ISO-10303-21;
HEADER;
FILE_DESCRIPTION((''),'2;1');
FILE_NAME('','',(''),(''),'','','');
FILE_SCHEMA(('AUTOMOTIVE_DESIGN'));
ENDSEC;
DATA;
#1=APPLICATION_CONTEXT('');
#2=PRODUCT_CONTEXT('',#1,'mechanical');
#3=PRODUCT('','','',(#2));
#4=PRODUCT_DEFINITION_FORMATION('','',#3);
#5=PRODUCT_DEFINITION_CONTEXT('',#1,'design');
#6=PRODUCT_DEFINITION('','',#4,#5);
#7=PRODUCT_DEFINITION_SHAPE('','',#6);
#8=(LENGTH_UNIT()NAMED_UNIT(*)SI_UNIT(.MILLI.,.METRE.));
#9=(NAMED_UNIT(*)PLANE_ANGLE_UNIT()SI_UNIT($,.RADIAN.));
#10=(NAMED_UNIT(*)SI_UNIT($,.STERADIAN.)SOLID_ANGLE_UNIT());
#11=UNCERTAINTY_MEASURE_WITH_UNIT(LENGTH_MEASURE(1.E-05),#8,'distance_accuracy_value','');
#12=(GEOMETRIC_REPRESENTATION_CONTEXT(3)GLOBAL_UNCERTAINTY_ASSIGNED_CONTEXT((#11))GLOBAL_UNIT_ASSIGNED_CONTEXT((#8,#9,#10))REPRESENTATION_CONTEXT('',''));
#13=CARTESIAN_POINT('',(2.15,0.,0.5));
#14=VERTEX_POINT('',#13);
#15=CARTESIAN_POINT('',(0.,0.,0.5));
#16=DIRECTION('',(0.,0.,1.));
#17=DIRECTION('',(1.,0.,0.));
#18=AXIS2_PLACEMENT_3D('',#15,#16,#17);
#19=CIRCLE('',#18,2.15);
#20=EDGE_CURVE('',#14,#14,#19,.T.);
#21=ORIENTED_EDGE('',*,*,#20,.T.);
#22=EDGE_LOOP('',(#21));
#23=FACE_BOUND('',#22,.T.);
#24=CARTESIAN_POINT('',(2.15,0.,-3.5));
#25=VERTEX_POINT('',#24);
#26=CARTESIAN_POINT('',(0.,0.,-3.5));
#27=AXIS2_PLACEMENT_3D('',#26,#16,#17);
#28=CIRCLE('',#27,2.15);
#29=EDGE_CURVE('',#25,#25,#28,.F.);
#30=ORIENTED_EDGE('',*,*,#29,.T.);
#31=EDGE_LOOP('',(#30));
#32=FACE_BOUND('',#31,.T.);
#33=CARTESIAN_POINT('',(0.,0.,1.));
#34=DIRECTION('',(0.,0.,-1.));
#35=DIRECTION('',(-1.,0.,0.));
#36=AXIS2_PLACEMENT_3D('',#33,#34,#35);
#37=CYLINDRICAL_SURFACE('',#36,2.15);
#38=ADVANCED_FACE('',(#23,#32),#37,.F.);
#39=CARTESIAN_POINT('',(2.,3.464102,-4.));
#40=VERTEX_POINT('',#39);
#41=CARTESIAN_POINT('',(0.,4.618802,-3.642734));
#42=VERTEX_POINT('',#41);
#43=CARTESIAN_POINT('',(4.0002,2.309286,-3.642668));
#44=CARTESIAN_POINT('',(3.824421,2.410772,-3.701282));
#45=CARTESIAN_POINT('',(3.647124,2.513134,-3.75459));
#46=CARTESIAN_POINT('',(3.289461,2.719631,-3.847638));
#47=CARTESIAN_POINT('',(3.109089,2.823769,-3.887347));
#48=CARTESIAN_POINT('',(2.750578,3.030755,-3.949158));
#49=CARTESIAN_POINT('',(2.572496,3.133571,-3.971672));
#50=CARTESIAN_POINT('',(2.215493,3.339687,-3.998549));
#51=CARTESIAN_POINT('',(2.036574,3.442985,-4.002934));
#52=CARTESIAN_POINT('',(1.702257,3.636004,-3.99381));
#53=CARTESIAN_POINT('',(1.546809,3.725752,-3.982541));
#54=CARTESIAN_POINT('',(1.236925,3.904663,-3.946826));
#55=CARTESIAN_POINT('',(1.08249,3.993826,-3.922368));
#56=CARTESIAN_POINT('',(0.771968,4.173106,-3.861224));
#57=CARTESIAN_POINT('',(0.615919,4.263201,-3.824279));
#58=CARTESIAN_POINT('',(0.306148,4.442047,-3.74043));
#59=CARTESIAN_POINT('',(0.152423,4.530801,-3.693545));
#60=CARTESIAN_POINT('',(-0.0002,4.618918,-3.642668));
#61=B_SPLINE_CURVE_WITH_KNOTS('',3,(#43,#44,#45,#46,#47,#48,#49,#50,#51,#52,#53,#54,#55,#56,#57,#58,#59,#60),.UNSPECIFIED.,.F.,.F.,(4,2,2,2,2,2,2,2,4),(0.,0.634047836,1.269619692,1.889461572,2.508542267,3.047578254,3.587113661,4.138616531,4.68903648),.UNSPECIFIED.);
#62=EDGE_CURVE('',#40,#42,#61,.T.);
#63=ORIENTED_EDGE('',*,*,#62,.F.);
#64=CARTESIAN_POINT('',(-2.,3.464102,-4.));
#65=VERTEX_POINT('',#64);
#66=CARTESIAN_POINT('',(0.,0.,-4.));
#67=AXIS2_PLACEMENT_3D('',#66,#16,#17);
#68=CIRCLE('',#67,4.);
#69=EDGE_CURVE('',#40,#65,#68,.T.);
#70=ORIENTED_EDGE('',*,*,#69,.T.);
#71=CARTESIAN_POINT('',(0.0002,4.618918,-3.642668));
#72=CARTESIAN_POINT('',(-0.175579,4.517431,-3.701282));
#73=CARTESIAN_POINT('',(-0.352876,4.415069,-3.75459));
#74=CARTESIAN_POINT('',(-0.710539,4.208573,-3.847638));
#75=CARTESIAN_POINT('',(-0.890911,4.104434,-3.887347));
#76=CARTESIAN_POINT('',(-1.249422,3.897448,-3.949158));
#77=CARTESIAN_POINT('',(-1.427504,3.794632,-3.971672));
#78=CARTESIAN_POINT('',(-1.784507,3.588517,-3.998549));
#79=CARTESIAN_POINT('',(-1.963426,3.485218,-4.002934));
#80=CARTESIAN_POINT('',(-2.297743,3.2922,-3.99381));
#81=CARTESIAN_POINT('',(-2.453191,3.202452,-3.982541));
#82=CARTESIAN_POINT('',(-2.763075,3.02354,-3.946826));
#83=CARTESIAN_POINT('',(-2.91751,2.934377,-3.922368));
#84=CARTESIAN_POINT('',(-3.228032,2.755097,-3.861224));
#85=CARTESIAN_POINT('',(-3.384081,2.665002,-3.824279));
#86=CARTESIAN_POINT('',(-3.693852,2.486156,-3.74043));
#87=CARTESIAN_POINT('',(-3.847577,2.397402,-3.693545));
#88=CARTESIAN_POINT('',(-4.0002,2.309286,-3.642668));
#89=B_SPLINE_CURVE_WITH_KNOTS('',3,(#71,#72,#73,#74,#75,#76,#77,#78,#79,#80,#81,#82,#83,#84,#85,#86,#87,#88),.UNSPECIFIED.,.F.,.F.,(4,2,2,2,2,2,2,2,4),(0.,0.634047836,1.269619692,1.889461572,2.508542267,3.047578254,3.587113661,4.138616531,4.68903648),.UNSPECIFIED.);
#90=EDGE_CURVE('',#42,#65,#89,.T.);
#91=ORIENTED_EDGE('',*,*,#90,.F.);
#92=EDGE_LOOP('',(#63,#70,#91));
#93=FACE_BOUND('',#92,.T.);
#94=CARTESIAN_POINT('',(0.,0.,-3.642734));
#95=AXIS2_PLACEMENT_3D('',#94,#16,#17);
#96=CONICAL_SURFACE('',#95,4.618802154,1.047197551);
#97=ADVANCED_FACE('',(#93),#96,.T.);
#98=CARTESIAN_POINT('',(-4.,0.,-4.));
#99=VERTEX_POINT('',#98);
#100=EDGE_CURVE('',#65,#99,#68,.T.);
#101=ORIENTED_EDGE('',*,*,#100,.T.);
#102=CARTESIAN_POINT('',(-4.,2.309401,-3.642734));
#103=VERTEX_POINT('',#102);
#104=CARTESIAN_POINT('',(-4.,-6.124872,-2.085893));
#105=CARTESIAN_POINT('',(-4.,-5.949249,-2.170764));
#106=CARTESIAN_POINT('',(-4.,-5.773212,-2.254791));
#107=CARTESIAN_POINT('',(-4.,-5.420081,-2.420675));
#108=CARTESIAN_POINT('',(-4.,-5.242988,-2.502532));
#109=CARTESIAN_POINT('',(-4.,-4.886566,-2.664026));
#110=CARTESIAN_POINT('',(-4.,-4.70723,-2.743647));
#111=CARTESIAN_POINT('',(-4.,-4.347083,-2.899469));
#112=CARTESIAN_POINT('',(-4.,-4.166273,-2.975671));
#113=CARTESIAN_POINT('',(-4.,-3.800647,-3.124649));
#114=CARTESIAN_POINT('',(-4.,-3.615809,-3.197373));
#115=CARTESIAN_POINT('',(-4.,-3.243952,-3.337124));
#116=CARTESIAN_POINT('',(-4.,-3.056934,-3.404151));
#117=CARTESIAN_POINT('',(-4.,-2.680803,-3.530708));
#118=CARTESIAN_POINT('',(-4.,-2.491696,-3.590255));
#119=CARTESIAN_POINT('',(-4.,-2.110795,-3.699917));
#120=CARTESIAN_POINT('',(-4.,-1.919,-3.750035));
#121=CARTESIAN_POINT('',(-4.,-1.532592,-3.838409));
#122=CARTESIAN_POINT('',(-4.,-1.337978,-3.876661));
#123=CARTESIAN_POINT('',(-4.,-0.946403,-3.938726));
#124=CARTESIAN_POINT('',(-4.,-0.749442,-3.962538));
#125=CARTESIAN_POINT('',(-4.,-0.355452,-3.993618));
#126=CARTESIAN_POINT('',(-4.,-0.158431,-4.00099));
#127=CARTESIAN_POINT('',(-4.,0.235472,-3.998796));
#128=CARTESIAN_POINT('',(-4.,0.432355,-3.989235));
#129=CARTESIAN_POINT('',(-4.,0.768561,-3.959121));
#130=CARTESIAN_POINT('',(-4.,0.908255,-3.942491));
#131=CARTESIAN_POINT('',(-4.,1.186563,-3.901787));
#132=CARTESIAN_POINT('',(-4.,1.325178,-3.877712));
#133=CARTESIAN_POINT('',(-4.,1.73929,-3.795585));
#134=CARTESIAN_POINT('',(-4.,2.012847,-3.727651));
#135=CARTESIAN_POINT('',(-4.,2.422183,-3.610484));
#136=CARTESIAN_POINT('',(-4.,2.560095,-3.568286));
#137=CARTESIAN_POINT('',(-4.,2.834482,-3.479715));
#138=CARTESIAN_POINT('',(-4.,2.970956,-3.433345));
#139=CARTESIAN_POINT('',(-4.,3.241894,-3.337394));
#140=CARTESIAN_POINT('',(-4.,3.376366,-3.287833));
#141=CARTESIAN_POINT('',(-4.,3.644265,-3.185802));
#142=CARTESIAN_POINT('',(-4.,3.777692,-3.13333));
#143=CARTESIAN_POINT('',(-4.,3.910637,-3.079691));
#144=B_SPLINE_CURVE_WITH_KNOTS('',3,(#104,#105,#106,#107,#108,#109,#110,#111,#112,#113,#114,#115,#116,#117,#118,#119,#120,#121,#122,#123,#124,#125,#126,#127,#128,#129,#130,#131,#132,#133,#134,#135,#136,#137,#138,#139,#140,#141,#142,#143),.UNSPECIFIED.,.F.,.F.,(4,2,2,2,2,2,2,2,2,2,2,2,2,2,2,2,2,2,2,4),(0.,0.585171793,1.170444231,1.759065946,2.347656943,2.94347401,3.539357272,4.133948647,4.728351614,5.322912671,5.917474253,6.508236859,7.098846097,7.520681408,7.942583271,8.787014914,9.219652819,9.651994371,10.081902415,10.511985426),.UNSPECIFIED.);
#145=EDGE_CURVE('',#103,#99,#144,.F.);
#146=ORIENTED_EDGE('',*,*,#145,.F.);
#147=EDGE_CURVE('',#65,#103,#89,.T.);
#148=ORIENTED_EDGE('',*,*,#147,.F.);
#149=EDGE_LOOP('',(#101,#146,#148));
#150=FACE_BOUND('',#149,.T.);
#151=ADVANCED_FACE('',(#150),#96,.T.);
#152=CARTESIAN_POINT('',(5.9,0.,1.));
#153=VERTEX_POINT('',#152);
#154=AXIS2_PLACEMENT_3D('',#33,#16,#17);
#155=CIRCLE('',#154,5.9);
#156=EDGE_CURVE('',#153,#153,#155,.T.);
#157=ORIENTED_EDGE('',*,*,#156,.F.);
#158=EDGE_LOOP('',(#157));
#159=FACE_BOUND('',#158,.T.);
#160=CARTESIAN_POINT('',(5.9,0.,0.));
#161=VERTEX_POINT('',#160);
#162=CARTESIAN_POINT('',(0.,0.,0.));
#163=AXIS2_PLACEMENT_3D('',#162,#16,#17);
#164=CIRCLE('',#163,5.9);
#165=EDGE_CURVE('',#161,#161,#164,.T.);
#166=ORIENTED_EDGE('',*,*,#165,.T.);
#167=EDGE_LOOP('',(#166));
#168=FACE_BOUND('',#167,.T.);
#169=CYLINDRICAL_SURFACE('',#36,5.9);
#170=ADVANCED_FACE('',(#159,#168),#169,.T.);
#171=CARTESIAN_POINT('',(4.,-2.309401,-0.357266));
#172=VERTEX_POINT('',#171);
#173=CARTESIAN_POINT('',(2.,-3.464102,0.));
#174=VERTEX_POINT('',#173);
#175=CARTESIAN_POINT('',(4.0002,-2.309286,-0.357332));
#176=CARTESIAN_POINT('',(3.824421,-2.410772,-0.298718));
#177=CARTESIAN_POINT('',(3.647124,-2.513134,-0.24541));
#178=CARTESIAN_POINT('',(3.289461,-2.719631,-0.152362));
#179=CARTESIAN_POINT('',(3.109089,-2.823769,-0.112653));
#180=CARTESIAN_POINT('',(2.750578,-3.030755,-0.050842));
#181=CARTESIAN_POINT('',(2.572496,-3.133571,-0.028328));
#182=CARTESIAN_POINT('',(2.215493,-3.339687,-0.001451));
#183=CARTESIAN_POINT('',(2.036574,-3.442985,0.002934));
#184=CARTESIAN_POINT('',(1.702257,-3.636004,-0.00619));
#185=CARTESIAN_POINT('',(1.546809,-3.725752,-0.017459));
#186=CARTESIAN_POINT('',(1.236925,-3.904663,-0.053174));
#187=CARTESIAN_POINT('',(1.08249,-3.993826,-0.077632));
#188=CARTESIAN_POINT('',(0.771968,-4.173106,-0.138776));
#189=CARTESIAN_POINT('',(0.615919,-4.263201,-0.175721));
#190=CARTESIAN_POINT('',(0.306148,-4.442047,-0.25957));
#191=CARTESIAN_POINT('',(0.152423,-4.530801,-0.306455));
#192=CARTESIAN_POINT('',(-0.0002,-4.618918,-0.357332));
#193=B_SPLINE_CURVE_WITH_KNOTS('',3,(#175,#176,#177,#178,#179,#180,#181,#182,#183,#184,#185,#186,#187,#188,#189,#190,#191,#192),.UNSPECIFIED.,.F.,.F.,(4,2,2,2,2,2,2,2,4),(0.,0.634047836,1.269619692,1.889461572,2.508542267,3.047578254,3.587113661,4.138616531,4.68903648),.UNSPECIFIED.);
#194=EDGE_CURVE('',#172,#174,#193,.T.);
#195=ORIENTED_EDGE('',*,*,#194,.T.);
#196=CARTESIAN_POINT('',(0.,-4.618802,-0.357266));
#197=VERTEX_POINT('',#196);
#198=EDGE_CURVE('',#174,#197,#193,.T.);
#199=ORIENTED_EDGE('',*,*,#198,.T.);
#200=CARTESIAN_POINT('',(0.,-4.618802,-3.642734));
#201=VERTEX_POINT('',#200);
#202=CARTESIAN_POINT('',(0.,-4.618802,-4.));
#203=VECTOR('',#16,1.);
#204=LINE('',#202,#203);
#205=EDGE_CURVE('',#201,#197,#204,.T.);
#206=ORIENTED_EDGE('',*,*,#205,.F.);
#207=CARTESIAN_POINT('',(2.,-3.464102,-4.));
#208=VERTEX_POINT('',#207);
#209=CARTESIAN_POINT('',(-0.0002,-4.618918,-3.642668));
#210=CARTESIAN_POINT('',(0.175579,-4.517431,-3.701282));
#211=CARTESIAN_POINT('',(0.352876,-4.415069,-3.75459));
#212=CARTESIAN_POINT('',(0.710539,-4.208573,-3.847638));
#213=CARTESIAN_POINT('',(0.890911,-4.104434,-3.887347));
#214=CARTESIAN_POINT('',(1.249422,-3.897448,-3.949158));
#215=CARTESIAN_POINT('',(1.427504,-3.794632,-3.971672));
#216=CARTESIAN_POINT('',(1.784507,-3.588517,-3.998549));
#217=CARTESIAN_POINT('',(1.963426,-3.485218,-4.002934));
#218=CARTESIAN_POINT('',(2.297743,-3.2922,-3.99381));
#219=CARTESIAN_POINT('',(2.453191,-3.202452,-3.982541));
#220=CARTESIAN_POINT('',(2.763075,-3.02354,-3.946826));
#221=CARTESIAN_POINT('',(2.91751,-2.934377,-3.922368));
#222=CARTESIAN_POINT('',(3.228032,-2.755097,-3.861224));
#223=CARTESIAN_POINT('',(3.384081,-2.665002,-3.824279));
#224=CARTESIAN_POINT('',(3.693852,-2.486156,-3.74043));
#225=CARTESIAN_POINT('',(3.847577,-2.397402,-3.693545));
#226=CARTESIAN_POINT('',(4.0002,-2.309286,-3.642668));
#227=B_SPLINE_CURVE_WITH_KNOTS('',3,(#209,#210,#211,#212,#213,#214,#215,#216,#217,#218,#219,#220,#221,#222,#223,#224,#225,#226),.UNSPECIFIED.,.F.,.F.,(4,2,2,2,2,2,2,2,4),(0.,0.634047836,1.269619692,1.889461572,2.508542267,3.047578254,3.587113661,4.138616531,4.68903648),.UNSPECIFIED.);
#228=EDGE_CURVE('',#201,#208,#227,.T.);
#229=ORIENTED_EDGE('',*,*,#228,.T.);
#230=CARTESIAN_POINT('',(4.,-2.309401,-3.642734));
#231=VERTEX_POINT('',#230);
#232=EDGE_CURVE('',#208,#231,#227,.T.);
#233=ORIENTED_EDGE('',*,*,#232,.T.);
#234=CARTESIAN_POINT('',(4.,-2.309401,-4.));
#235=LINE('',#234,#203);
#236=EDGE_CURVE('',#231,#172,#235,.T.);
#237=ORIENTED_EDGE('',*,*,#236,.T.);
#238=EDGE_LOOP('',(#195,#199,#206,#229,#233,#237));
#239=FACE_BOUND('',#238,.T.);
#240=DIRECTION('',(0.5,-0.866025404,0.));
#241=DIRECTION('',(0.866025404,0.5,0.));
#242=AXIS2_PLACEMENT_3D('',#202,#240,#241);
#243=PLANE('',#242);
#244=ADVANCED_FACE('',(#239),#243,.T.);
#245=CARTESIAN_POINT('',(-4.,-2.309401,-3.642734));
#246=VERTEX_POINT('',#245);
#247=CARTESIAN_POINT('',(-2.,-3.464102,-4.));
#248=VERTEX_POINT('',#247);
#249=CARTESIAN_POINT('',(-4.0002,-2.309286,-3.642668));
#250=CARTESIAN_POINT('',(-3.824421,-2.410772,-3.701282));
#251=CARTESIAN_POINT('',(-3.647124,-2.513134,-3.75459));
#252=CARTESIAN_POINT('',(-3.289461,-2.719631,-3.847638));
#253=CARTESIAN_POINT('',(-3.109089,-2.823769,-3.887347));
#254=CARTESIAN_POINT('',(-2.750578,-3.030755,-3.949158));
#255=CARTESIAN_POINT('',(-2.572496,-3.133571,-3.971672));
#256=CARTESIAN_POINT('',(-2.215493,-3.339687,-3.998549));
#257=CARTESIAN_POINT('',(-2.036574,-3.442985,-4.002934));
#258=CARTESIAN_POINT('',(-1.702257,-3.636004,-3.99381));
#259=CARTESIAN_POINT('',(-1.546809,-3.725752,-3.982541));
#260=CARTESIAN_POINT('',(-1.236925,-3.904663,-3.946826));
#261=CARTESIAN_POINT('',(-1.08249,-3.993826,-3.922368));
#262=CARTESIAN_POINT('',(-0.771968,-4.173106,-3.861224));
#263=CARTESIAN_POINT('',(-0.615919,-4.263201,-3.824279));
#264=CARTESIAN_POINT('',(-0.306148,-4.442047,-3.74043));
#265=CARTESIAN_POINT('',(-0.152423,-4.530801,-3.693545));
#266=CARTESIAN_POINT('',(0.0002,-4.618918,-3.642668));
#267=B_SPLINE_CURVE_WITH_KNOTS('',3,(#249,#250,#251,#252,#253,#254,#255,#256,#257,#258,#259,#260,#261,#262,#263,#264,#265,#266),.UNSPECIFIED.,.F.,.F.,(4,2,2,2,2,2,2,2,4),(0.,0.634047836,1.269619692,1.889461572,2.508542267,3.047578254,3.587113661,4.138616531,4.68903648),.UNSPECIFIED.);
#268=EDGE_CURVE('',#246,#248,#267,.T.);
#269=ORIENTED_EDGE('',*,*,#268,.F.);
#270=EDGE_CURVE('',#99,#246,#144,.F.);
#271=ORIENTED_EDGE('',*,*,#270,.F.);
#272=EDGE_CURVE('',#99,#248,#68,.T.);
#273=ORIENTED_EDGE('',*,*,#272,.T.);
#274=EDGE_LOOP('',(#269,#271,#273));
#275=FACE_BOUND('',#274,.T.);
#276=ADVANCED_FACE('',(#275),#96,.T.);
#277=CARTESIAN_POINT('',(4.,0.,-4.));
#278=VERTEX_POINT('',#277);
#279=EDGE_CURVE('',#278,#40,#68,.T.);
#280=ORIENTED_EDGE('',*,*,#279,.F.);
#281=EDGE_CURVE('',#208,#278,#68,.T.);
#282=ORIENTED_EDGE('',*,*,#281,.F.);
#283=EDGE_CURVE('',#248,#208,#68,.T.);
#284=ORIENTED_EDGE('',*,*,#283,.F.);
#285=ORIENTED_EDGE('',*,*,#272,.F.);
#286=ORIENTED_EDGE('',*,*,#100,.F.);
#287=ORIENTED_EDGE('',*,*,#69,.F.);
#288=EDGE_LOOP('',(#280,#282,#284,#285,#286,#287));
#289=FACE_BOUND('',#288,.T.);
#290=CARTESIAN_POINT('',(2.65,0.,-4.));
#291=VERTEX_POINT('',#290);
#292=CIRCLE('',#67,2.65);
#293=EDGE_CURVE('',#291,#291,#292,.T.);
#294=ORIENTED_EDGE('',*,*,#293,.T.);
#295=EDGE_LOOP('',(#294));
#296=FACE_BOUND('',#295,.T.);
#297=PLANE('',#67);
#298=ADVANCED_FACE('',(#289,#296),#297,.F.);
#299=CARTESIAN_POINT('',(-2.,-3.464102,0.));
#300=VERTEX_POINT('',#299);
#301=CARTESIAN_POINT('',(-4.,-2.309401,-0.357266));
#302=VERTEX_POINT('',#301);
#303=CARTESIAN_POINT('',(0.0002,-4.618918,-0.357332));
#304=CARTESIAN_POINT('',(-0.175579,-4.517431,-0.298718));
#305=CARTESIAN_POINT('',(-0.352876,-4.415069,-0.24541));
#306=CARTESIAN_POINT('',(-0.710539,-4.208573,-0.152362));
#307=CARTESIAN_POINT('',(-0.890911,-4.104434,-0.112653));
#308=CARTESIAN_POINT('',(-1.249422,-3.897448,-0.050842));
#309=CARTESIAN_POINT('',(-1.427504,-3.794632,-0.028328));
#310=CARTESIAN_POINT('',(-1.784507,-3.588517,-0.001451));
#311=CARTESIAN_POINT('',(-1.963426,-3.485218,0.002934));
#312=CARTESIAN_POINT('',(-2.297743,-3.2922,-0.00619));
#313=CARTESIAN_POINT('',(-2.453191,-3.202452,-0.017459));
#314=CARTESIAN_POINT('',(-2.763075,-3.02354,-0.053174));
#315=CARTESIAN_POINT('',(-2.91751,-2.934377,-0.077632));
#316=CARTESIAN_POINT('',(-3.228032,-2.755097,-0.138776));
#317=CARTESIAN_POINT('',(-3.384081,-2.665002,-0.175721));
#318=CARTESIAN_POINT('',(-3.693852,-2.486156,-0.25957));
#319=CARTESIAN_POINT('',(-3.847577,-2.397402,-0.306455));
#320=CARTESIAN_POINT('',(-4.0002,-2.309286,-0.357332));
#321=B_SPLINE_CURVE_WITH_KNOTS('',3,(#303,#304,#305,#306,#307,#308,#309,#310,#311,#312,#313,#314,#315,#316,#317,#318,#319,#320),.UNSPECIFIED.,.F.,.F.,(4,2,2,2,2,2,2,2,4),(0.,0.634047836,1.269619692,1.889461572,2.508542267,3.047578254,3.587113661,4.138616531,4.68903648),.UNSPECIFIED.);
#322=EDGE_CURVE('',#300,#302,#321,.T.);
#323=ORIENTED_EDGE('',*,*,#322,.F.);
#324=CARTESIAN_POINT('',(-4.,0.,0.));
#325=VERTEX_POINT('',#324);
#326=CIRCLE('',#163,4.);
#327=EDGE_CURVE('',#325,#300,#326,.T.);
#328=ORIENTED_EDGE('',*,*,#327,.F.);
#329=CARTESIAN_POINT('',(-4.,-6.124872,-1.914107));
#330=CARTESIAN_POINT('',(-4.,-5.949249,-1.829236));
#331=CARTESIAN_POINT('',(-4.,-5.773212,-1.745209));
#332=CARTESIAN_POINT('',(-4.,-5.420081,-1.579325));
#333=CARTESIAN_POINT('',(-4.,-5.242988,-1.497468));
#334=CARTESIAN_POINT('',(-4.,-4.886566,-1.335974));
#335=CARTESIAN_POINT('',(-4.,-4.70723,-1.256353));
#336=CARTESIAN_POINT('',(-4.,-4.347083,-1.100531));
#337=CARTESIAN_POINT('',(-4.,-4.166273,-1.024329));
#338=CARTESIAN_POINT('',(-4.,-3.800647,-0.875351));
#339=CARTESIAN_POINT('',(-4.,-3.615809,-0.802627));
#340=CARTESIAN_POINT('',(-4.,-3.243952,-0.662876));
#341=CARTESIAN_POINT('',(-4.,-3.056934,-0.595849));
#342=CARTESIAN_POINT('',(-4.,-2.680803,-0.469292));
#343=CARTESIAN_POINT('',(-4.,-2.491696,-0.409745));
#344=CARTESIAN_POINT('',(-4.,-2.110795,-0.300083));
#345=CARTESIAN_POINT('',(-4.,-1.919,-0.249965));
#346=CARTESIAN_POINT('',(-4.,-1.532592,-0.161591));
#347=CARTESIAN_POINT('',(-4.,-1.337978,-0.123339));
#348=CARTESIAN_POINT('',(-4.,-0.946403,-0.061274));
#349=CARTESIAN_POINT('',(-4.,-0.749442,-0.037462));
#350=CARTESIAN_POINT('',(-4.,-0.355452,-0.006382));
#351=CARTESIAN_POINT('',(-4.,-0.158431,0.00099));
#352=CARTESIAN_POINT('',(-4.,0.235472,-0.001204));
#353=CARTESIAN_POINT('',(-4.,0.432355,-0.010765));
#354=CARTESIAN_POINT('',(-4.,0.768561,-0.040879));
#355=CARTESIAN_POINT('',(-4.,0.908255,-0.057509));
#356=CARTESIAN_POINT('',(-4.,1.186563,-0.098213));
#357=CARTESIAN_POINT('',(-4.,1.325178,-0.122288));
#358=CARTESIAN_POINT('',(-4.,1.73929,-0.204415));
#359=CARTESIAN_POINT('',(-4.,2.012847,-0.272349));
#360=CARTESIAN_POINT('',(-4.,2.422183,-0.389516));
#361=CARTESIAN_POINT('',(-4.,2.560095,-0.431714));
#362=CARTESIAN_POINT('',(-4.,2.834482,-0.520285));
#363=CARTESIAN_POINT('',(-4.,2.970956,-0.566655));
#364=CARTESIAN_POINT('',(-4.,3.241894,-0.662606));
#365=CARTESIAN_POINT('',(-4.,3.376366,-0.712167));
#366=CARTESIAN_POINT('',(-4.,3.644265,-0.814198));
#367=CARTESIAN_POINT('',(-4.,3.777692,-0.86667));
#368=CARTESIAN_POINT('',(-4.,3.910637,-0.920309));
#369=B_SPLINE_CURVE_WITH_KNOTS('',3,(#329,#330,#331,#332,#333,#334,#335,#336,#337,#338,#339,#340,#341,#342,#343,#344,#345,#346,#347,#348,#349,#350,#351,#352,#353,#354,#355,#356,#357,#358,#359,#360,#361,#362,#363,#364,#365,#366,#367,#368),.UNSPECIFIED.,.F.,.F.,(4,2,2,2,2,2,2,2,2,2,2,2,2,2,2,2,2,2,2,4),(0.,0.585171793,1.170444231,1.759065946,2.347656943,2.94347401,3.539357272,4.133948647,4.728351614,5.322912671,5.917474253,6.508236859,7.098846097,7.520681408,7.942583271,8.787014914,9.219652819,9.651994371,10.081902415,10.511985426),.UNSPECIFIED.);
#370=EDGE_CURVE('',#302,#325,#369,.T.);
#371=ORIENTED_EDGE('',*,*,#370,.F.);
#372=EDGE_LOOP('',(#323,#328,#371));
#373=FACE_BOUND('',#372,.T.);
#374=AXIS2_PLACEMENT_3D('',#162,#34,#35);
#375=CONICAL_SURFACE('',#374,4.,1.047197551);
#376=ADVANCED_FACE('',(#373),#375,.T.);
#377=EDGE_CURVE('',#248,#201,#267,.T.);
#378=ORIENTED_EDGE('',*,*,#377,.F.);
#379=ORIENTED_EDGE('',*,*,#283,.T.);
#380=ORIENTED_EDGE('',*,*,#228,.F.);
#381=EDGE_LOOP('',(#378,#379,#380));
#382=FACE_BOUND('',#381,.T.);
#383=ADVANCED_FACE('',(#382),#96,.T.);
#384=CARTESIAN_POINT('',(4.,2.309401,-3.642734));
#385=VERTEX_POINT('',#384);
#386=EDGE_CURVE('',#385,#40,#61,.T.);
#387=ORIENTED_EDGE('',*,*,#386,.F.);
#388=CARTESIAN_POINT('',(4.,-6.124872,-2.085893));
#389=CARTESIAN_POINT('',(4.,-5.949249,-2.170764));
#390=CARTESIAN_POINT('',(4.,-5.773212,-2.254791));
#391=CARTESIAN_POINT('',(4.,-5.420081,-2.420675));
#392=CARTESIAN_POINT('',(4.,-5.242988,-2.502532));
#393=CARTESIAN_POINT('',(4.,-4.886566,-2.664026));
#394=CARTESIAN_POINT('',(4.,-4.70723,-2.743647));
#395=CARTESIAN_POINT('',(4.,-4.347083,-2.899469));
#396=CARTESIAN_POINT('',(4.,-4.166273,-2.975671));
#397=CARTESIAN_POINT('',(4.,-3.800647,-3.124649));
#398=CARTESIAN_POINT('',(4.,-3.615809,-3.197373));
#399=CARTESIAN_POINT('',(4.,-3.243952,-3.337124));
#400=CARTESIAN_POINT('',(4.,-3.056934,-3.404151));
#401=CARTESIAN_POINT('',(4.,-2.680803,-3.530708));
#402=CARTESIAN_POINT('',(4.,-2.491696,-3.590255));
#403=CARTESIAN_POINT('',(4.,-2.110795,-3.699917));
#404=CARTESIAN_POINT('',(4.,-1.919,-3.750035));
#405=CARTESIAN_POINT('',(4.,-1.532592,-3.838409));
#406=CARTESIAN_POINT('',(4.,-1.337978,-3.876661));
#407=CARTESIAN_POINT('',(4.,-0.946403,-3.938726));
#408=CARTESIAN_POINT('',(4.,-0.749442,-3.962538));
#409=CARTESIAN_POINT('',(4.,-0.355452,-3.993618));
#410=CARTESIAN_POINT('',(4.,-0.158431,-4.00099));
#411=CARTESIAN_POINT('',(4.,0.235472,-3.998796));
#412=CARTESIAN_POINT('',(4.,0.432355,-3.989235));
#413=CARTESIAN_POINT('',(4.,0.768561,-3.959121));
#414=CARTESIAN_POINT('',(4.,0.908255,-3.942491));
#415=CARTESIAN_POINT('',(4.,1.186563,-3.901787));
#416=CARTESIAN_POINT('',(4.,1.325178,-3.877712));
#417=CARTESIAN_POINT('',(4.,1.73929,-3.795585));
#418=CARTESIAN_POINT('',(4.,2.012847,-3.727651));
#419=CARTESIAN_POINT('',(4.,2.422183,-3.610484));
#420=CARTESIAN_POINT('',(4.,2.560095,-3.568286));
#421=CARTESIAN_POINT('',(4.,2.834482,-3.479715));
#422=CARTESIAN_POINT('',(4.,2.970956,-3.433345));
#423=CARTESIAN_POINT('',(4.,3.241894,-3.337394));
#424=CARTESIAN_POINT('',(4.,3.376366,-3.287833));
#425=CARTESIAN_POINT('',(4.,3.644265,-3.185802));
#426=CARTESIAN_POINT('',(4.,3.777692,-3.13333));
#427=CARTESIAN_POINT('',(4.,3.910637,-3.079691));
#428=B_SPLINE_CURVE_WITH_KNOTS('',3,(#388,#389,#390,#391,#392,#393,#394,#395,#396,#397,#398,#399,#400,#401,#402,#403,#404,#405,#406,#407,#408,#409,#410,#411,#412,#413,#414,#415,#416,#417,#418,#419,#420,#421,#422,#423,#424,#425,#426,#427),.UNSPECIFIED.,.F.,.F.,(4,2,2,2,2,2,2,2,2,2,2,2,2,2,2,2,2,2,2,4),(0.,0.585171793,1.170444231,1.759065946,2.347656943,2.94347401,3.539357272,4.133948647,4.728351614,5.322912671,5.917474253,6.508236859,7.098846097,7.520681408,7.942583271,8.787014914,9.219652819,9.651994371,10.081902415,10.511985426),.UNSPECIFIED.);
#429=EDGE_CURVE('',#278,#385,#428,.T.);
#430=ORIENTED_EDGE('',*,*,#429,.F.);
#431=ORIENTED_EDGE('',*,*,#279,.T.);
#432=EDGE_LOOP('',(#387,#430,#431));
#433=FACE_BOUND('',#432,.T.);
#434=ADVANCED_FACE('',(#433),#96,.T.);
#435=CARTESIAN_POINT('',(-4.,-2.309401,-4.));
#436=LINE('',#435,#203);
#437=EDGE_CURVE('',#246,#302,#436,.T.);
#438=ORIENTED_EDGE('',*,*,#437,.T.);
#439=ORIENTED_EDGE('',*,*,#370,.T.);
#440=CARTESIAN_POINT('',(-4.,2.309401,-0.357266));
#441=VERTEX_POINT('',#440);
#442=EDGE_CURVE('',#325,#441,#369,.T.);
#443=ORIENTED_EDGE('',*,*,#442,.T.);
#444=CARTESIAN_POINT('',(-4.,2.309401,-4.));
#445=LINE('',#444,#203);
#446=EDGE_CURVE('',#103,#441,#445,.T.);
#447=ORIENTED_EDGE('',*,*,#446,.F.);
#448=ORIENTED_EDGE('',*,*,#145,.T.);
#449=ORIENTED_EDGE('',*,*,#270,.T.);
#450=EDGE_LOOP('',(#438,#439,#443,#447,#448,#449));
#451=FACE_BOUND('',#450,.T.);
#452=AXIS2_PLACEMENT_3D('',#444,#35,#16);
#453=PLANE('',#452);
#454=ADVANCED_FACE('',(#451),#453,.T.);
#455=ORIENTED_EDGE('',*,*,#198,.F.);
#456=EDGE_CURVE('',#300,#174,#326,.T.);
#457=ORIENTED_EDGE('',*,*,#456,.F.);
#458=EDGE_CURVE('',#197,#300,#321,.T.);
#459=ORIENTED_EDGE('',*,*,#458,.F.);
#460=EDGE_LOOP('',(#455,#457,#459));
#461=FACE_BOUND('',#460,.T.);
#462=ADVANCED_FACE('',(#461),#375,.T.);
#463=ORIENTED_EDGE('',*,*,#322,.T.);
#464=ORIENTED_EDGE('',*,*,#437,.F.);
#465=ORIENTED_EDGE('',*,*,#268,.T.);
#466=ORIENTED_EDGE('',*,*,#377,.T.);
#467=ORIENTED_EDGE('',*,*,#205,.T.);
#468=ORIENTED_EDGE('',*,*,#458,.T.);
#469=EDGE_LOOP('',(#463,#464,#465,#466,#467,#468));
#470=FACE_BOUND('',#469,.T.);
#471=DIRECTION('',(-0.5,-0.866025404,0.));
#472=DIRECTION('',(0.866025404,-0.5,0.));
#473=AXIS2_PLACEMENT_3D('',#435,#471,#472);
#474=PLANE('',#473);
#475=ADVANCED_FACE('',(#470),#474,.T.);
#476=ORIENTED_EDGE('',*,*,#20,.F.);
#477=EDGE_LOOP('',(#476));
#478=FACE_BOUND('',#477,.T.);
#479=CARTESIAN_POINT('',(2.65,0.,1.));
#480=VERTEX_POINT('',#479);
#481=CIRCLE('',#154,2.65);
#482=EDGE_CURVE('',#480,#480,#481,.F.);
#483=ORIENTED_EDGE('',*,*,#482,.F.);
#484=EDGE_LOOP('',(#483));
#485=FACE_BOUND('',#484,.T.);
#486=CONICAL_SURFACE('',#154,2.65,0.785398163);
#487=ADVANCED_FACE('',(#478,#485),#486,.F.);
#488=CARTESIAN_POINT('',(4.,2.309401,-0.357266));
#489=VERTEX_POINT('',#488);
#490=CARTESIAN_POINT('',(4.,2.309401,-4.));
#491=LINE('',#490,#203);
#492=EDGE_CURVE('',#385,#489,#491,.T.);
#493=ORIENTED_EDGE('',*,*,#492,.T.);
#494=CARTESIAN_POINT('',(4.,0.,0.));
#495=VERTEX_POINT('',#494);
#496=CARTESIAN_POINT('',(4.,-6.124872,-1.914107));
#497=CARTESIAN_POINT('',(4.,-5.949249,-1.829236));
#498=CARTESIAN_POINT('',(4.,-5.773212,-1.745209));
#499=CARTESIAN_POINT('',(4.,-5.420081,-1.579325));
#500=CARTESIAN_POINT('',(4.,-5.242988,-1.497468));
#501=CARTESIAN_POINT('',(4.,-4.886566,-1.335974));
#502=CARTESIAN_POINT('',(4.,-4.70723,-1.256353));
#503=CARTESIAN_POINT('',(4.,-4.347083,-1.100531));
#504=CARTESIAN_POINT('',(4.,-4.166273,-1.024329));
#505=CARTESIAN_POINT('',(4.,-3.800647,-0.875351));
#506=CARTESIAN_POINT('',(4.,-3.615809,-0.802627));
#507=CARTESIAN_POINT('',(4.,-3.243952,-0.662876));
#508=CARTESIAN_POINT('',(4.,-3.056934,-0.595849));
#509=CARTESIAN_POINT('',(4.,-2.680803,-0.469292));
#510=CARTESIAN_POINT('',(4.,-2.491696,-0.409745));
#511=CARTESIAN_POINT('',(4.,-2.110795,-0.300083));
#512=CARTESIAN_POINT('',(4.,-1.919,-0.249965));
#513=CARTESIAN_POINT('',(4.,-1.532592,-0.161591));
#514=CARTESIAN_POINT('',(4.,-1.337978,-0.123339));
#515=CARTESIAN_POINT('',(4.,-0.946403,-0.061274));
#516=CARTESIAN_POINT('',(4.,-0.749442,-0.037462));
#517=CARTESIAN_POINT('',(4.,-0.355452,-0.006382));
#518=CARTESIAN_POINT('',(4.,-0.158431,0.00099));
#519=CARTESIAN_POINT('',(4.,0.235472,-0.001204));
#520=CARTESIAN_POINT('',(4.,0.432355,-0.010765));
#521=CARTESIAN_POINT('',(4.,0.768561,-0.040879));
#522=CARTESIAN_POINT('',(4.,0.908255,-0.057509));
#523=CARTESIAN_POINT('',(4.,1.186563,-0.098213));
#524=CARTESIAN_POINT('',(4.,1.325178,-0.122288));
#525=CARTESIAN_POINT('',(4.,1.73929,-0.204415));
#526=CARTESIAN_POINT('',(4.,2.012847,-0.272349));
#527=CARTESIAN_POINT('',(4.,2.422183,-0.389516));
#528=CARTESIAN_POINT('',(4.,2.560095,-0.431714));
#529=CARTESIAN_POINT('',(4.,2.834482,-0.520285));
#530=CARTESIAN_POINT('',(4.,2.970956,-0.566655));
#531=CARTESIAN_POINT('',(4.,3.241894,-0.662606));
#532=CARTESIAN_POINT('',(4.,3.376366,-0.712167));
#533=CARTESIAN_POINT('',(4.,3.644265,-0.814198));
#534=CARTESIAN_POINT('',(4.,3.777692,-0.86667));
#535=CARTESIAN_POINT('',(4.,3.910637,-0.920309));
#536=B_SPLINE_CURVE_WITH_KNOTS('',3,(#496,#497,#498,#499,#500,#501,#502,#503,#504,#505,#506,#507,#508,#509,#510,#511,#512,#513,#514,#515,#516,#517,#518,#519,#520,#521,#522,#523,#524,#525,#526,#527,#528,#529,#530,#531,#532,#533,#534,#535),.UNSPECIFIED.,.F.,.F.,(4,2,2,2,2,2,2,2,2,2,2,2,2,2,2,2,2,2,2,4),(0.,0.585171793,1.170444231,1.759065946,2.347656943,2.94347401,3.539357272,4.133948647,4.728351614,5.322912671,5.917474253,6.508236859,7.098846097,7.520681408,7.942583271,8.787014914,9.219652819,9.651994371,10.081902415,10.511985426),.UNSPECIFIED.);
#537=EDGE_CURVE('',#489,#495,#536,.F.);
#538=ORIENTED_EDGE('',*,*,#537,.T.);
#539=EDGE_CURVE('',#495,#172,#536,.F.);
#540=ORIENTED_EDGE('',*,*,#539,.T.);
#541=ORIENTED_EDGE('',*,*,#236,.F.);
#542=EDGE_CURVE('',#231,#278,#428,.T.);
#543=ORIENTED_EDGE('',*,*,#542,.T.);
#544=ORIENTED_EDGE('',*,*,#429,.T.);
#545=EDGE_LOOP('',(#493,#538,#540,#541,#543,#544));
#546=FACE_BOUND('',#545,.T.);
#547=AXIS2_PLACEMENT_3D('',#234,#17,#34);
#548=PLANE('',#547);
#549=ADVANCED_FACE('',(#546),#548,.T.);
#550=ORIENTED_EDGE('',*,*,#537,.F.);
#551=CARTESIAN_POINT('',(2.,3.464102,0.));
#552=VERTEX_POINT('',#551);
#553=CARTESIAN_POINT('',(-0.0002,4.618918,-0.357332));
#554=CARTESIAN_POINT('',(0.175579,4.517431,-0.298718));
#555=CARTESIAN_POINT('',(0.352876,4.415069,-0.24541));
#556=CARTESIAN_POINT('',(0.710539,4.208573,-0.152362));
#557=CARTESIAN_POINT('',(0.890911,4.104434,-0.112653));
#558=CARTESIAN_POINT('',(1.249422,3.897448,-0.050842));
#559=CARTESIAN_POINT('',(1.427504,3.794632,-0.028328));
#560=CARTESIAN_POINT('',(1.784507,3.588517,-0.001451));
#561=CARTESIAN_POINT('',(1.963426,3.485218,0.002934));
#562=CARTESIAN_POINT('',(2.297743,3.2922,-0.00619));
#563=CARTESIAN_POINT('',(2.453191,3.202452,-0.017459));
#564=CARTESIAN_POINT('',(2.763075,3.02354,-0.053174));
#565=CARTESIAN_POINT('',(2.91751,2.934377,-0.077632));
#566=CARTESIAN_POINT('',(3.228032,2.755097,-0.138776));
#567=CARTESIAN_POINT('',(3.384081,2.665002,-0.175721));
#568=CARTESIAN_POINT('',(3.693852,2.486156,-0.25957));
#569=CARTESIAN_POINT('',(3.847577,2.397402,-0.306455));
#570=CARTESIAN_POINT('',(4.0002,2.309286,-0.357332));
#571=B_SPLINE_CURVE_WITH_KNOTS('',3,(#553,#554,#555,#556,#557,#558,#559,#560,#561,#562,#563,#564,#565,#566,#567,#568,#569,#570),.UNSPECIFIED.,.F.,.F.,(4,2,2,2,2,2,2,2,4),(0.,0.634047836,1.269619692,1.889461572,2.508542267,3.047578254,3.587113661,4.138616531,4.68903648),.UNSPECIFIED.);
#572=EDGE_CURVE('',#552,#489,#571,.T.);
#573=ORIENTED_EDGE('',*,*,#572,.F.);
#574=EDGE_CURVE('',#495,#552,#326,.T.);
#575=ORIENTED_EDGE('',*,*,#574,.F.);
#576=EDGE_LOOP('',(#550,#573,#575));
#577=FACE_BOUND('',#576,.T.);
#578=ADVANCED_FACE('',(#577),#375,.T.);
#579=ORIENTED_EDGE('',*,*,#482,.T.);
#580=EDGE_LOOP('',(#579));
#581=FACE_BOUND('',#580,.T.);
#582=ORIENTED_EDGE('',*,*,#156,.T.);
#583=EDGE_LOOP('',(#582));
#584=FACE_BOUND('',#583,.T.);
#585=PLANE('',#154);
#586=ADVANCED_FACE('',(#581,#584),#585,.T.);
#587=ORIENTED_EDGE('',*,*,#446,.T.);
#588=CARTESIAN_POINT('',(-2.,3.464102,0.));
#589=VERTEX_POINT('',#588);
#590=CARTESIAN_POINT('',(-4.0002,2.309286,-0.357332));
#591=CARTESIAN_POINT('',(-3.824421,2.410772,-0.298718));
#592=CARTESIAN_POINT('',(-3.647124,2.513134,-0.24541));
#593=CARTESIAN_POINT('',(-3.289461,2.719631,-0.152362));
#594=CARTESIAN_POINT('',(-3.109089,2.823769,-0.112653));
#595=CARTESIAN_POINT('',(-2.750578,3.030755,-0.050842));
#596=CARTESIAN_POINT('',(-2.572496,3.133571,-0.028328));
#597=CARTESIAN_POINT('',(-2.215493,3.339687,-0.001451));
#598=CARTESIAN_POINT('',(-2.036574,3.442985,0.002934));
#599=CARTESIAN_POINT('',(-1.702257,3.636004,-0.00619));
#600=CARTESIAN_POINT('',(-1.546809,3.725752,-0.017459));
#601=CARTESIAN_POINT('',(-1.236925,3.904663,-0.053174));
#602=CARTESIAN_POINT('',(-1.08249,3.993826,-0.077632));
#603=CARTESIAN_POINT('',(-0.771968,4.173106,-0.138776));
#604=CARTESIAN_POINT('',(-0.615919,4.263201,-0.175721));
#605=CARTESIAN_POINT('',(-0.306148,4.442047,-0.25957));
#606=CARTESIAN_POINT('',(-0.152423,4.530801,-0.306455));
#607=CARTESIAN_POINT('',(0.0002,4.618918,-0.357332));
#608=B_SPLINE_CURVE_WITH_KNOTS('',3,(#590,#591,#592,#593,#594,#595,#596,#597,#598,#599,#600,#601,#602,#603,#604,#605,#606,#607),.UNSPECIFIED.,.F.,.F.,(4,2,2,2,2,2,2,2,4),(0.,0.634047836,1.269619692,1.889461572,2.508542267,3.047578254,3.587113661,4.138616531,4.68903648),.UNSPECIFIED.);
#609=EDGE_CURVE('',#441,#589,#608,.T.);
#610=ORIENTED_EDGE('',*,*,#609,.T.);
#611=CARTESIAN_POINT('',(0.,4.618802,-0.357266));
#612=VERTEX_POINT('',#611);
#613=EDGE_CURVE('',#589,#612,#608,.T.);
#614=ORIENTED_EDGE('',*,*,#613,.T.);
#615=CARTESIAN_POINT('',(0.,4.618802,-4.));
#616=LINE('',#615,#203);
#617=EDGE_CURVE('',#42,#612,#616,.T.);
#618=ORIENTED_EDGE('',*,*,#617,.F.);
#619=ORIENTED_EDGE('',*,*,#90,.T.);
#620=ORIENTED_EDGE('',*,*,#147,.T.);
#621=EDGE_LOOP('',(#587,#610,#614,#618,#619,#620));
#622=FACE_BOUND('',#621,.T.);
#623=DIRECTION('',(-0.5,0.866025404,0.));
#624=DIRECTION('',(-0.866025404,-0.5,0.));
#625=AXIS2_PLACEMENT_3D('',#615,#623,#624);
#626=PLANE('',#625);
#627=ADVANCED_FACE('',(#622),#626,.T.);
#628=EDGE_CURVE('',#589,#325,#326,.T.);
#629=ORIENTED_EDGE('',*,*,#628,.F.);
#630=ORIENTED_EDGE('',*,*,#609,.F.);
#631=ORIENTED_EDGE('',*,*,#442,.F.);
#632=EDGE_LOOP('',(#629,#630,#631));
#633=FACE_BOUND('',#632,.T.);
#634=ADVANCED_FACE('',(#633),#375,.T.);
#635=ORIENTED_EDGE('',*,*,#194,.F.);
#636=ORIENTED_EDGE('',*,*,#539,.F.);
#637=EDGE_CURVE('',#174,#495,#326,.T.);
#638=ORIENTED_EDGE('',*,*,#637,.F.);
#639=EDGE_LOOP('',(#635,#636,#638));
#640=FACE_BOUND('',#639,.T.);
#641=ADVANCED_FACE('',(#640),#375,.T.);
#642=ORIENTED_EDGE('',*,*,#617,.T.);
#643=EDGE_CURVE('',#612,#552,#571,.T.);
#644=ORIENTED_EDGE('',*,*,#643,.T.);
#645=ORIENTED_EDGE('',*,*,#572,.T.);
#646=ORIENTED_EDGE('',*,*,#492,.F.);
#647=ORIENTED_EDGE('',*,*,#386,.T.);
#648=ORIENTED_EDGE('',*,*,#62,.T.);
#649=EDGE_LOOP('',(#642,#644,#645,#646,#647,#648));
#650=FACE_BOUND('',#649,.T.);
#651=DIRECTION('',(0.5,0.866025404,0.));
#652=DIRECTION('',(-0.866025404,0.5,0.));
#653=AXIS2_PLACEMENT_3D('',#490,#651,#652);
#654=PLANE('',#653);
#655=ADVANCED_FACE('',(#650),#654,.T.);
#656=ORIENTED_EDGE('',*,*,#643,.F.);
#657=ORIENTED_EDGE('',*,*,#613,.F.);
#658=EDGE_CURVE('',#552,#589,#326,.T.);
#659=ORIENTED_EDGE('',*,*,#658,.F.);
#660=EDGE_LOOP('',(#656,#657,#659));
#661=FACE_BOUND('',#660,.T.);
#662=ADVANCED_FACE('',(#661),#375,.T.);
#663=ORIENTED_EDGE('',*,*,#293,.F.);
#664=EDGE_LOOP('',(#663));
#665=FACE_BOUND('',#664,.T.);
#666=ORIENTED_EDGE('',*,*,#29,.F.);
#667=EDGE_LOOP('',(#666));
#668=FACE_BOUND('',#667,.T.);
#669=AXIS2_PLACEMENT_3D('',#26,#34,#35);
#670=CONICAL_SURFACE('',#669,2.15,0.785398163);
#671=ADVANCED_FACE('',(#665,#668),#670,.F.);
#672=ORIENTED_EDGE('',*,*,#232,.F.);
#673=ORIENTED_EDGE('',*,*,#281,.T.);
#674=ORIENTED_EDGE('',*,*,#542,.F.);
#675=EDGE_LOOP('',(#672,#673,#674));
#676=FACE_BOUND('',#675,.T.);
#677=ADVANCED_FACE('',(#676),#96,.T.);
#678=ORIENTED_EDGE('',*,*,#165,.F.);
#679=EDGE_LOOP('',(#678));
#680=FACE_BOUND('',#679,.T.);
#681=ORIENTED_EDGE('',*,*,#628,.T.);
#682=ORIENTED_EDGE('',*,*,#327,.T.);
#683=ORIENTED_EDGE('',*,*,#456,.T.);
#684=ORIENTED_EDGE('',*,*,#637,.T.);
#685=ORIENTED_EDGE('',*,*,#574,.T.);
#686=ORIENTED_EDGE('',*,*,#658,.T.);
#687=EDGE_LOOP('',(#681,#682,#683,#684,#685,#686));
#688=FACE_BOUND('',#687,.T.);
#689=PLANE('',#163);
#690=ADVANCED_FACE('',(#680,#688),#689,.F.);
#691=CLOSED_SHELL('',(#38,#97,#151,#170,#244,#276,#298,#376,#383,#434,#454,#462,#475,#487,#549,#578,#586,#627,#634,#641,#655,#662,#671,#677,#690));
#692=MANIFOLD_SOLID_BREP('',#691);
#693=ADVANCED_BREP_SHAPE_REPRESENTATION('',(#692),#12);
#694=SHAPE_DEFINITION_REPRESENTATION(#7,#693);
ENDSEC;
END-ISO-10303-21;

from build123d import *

# Parameters (mm, degrees)
EXTRUDE_1_DEPTH     = 4
SKETCH_3_R          = 5.9
EXTRUDE_2_DEPTH     = 1
SKETCH_4_R          = 2.15
CUT_EXTRUDE_1_DEPTH = 10.727281223
CHAMFER_1_SIZE      = 0.5


with BuildPart() as part:
    # Sketch 1 → Extrude 1 (new body)
    with BuildSketch(Plane.XY):
        Polygon((0, 4.618802154), (-4, 2.309401077), (-4, -2.309401077), (0, -4.618802154), (4, -2.309401077), (4, 2.309401077), align=None)
    extrude(amount=-EXTRUDE_1_DEPTH)

    # Sketch 2 → Cut-Revolve 1 (revolve, cut)
    with BuildSketch(Plane(origin=(0, 0, 0), x_dir=(0, 0, -1), z_dir=(1, 0, 0))):
        Polygon((0, 4.618802154), (0.35726559, 4.618802154), (0, 4), align=None)
        Polygon((4, 4), (3.64273441, 4.618802154), (4, 4.618802154), align=None)
    revolve(axis=Axis((0, 0, 0), (0, 0, -1)), mode=Mode.SUBTRACT)

    # Sketch 3 → Extrude 2 (add)
    with BuildSketch(Plane.XY):
        Circle(SKETCH_3_R)
    extrude(amount=EXTRUDE_2_DEPTH)

    # Sketch 4 → Cut-Extrude 1 (cut, through all)
    with BuildSketch(Plane(origin=(0, 0, -4), x_dir=(-1, 0, 0), z_dir=(0, 0, -1))):
        Circle(SKETCH_4_R)
    extrude(amount=-CUT_EXTRUDE_1_DEPTH, mode=Mode.SUBTRACT)

    # Chamfer 1
    chamfer_1_edges = [part.edges().sort_by_distance(p)[0] for p in [
        (2.15, 0, 1),
        (2.15, 0, -4),
    ]]
    chamfer(chamfer_1_edges, length=CHAMFER_1_SIZE)


solid = part.part
